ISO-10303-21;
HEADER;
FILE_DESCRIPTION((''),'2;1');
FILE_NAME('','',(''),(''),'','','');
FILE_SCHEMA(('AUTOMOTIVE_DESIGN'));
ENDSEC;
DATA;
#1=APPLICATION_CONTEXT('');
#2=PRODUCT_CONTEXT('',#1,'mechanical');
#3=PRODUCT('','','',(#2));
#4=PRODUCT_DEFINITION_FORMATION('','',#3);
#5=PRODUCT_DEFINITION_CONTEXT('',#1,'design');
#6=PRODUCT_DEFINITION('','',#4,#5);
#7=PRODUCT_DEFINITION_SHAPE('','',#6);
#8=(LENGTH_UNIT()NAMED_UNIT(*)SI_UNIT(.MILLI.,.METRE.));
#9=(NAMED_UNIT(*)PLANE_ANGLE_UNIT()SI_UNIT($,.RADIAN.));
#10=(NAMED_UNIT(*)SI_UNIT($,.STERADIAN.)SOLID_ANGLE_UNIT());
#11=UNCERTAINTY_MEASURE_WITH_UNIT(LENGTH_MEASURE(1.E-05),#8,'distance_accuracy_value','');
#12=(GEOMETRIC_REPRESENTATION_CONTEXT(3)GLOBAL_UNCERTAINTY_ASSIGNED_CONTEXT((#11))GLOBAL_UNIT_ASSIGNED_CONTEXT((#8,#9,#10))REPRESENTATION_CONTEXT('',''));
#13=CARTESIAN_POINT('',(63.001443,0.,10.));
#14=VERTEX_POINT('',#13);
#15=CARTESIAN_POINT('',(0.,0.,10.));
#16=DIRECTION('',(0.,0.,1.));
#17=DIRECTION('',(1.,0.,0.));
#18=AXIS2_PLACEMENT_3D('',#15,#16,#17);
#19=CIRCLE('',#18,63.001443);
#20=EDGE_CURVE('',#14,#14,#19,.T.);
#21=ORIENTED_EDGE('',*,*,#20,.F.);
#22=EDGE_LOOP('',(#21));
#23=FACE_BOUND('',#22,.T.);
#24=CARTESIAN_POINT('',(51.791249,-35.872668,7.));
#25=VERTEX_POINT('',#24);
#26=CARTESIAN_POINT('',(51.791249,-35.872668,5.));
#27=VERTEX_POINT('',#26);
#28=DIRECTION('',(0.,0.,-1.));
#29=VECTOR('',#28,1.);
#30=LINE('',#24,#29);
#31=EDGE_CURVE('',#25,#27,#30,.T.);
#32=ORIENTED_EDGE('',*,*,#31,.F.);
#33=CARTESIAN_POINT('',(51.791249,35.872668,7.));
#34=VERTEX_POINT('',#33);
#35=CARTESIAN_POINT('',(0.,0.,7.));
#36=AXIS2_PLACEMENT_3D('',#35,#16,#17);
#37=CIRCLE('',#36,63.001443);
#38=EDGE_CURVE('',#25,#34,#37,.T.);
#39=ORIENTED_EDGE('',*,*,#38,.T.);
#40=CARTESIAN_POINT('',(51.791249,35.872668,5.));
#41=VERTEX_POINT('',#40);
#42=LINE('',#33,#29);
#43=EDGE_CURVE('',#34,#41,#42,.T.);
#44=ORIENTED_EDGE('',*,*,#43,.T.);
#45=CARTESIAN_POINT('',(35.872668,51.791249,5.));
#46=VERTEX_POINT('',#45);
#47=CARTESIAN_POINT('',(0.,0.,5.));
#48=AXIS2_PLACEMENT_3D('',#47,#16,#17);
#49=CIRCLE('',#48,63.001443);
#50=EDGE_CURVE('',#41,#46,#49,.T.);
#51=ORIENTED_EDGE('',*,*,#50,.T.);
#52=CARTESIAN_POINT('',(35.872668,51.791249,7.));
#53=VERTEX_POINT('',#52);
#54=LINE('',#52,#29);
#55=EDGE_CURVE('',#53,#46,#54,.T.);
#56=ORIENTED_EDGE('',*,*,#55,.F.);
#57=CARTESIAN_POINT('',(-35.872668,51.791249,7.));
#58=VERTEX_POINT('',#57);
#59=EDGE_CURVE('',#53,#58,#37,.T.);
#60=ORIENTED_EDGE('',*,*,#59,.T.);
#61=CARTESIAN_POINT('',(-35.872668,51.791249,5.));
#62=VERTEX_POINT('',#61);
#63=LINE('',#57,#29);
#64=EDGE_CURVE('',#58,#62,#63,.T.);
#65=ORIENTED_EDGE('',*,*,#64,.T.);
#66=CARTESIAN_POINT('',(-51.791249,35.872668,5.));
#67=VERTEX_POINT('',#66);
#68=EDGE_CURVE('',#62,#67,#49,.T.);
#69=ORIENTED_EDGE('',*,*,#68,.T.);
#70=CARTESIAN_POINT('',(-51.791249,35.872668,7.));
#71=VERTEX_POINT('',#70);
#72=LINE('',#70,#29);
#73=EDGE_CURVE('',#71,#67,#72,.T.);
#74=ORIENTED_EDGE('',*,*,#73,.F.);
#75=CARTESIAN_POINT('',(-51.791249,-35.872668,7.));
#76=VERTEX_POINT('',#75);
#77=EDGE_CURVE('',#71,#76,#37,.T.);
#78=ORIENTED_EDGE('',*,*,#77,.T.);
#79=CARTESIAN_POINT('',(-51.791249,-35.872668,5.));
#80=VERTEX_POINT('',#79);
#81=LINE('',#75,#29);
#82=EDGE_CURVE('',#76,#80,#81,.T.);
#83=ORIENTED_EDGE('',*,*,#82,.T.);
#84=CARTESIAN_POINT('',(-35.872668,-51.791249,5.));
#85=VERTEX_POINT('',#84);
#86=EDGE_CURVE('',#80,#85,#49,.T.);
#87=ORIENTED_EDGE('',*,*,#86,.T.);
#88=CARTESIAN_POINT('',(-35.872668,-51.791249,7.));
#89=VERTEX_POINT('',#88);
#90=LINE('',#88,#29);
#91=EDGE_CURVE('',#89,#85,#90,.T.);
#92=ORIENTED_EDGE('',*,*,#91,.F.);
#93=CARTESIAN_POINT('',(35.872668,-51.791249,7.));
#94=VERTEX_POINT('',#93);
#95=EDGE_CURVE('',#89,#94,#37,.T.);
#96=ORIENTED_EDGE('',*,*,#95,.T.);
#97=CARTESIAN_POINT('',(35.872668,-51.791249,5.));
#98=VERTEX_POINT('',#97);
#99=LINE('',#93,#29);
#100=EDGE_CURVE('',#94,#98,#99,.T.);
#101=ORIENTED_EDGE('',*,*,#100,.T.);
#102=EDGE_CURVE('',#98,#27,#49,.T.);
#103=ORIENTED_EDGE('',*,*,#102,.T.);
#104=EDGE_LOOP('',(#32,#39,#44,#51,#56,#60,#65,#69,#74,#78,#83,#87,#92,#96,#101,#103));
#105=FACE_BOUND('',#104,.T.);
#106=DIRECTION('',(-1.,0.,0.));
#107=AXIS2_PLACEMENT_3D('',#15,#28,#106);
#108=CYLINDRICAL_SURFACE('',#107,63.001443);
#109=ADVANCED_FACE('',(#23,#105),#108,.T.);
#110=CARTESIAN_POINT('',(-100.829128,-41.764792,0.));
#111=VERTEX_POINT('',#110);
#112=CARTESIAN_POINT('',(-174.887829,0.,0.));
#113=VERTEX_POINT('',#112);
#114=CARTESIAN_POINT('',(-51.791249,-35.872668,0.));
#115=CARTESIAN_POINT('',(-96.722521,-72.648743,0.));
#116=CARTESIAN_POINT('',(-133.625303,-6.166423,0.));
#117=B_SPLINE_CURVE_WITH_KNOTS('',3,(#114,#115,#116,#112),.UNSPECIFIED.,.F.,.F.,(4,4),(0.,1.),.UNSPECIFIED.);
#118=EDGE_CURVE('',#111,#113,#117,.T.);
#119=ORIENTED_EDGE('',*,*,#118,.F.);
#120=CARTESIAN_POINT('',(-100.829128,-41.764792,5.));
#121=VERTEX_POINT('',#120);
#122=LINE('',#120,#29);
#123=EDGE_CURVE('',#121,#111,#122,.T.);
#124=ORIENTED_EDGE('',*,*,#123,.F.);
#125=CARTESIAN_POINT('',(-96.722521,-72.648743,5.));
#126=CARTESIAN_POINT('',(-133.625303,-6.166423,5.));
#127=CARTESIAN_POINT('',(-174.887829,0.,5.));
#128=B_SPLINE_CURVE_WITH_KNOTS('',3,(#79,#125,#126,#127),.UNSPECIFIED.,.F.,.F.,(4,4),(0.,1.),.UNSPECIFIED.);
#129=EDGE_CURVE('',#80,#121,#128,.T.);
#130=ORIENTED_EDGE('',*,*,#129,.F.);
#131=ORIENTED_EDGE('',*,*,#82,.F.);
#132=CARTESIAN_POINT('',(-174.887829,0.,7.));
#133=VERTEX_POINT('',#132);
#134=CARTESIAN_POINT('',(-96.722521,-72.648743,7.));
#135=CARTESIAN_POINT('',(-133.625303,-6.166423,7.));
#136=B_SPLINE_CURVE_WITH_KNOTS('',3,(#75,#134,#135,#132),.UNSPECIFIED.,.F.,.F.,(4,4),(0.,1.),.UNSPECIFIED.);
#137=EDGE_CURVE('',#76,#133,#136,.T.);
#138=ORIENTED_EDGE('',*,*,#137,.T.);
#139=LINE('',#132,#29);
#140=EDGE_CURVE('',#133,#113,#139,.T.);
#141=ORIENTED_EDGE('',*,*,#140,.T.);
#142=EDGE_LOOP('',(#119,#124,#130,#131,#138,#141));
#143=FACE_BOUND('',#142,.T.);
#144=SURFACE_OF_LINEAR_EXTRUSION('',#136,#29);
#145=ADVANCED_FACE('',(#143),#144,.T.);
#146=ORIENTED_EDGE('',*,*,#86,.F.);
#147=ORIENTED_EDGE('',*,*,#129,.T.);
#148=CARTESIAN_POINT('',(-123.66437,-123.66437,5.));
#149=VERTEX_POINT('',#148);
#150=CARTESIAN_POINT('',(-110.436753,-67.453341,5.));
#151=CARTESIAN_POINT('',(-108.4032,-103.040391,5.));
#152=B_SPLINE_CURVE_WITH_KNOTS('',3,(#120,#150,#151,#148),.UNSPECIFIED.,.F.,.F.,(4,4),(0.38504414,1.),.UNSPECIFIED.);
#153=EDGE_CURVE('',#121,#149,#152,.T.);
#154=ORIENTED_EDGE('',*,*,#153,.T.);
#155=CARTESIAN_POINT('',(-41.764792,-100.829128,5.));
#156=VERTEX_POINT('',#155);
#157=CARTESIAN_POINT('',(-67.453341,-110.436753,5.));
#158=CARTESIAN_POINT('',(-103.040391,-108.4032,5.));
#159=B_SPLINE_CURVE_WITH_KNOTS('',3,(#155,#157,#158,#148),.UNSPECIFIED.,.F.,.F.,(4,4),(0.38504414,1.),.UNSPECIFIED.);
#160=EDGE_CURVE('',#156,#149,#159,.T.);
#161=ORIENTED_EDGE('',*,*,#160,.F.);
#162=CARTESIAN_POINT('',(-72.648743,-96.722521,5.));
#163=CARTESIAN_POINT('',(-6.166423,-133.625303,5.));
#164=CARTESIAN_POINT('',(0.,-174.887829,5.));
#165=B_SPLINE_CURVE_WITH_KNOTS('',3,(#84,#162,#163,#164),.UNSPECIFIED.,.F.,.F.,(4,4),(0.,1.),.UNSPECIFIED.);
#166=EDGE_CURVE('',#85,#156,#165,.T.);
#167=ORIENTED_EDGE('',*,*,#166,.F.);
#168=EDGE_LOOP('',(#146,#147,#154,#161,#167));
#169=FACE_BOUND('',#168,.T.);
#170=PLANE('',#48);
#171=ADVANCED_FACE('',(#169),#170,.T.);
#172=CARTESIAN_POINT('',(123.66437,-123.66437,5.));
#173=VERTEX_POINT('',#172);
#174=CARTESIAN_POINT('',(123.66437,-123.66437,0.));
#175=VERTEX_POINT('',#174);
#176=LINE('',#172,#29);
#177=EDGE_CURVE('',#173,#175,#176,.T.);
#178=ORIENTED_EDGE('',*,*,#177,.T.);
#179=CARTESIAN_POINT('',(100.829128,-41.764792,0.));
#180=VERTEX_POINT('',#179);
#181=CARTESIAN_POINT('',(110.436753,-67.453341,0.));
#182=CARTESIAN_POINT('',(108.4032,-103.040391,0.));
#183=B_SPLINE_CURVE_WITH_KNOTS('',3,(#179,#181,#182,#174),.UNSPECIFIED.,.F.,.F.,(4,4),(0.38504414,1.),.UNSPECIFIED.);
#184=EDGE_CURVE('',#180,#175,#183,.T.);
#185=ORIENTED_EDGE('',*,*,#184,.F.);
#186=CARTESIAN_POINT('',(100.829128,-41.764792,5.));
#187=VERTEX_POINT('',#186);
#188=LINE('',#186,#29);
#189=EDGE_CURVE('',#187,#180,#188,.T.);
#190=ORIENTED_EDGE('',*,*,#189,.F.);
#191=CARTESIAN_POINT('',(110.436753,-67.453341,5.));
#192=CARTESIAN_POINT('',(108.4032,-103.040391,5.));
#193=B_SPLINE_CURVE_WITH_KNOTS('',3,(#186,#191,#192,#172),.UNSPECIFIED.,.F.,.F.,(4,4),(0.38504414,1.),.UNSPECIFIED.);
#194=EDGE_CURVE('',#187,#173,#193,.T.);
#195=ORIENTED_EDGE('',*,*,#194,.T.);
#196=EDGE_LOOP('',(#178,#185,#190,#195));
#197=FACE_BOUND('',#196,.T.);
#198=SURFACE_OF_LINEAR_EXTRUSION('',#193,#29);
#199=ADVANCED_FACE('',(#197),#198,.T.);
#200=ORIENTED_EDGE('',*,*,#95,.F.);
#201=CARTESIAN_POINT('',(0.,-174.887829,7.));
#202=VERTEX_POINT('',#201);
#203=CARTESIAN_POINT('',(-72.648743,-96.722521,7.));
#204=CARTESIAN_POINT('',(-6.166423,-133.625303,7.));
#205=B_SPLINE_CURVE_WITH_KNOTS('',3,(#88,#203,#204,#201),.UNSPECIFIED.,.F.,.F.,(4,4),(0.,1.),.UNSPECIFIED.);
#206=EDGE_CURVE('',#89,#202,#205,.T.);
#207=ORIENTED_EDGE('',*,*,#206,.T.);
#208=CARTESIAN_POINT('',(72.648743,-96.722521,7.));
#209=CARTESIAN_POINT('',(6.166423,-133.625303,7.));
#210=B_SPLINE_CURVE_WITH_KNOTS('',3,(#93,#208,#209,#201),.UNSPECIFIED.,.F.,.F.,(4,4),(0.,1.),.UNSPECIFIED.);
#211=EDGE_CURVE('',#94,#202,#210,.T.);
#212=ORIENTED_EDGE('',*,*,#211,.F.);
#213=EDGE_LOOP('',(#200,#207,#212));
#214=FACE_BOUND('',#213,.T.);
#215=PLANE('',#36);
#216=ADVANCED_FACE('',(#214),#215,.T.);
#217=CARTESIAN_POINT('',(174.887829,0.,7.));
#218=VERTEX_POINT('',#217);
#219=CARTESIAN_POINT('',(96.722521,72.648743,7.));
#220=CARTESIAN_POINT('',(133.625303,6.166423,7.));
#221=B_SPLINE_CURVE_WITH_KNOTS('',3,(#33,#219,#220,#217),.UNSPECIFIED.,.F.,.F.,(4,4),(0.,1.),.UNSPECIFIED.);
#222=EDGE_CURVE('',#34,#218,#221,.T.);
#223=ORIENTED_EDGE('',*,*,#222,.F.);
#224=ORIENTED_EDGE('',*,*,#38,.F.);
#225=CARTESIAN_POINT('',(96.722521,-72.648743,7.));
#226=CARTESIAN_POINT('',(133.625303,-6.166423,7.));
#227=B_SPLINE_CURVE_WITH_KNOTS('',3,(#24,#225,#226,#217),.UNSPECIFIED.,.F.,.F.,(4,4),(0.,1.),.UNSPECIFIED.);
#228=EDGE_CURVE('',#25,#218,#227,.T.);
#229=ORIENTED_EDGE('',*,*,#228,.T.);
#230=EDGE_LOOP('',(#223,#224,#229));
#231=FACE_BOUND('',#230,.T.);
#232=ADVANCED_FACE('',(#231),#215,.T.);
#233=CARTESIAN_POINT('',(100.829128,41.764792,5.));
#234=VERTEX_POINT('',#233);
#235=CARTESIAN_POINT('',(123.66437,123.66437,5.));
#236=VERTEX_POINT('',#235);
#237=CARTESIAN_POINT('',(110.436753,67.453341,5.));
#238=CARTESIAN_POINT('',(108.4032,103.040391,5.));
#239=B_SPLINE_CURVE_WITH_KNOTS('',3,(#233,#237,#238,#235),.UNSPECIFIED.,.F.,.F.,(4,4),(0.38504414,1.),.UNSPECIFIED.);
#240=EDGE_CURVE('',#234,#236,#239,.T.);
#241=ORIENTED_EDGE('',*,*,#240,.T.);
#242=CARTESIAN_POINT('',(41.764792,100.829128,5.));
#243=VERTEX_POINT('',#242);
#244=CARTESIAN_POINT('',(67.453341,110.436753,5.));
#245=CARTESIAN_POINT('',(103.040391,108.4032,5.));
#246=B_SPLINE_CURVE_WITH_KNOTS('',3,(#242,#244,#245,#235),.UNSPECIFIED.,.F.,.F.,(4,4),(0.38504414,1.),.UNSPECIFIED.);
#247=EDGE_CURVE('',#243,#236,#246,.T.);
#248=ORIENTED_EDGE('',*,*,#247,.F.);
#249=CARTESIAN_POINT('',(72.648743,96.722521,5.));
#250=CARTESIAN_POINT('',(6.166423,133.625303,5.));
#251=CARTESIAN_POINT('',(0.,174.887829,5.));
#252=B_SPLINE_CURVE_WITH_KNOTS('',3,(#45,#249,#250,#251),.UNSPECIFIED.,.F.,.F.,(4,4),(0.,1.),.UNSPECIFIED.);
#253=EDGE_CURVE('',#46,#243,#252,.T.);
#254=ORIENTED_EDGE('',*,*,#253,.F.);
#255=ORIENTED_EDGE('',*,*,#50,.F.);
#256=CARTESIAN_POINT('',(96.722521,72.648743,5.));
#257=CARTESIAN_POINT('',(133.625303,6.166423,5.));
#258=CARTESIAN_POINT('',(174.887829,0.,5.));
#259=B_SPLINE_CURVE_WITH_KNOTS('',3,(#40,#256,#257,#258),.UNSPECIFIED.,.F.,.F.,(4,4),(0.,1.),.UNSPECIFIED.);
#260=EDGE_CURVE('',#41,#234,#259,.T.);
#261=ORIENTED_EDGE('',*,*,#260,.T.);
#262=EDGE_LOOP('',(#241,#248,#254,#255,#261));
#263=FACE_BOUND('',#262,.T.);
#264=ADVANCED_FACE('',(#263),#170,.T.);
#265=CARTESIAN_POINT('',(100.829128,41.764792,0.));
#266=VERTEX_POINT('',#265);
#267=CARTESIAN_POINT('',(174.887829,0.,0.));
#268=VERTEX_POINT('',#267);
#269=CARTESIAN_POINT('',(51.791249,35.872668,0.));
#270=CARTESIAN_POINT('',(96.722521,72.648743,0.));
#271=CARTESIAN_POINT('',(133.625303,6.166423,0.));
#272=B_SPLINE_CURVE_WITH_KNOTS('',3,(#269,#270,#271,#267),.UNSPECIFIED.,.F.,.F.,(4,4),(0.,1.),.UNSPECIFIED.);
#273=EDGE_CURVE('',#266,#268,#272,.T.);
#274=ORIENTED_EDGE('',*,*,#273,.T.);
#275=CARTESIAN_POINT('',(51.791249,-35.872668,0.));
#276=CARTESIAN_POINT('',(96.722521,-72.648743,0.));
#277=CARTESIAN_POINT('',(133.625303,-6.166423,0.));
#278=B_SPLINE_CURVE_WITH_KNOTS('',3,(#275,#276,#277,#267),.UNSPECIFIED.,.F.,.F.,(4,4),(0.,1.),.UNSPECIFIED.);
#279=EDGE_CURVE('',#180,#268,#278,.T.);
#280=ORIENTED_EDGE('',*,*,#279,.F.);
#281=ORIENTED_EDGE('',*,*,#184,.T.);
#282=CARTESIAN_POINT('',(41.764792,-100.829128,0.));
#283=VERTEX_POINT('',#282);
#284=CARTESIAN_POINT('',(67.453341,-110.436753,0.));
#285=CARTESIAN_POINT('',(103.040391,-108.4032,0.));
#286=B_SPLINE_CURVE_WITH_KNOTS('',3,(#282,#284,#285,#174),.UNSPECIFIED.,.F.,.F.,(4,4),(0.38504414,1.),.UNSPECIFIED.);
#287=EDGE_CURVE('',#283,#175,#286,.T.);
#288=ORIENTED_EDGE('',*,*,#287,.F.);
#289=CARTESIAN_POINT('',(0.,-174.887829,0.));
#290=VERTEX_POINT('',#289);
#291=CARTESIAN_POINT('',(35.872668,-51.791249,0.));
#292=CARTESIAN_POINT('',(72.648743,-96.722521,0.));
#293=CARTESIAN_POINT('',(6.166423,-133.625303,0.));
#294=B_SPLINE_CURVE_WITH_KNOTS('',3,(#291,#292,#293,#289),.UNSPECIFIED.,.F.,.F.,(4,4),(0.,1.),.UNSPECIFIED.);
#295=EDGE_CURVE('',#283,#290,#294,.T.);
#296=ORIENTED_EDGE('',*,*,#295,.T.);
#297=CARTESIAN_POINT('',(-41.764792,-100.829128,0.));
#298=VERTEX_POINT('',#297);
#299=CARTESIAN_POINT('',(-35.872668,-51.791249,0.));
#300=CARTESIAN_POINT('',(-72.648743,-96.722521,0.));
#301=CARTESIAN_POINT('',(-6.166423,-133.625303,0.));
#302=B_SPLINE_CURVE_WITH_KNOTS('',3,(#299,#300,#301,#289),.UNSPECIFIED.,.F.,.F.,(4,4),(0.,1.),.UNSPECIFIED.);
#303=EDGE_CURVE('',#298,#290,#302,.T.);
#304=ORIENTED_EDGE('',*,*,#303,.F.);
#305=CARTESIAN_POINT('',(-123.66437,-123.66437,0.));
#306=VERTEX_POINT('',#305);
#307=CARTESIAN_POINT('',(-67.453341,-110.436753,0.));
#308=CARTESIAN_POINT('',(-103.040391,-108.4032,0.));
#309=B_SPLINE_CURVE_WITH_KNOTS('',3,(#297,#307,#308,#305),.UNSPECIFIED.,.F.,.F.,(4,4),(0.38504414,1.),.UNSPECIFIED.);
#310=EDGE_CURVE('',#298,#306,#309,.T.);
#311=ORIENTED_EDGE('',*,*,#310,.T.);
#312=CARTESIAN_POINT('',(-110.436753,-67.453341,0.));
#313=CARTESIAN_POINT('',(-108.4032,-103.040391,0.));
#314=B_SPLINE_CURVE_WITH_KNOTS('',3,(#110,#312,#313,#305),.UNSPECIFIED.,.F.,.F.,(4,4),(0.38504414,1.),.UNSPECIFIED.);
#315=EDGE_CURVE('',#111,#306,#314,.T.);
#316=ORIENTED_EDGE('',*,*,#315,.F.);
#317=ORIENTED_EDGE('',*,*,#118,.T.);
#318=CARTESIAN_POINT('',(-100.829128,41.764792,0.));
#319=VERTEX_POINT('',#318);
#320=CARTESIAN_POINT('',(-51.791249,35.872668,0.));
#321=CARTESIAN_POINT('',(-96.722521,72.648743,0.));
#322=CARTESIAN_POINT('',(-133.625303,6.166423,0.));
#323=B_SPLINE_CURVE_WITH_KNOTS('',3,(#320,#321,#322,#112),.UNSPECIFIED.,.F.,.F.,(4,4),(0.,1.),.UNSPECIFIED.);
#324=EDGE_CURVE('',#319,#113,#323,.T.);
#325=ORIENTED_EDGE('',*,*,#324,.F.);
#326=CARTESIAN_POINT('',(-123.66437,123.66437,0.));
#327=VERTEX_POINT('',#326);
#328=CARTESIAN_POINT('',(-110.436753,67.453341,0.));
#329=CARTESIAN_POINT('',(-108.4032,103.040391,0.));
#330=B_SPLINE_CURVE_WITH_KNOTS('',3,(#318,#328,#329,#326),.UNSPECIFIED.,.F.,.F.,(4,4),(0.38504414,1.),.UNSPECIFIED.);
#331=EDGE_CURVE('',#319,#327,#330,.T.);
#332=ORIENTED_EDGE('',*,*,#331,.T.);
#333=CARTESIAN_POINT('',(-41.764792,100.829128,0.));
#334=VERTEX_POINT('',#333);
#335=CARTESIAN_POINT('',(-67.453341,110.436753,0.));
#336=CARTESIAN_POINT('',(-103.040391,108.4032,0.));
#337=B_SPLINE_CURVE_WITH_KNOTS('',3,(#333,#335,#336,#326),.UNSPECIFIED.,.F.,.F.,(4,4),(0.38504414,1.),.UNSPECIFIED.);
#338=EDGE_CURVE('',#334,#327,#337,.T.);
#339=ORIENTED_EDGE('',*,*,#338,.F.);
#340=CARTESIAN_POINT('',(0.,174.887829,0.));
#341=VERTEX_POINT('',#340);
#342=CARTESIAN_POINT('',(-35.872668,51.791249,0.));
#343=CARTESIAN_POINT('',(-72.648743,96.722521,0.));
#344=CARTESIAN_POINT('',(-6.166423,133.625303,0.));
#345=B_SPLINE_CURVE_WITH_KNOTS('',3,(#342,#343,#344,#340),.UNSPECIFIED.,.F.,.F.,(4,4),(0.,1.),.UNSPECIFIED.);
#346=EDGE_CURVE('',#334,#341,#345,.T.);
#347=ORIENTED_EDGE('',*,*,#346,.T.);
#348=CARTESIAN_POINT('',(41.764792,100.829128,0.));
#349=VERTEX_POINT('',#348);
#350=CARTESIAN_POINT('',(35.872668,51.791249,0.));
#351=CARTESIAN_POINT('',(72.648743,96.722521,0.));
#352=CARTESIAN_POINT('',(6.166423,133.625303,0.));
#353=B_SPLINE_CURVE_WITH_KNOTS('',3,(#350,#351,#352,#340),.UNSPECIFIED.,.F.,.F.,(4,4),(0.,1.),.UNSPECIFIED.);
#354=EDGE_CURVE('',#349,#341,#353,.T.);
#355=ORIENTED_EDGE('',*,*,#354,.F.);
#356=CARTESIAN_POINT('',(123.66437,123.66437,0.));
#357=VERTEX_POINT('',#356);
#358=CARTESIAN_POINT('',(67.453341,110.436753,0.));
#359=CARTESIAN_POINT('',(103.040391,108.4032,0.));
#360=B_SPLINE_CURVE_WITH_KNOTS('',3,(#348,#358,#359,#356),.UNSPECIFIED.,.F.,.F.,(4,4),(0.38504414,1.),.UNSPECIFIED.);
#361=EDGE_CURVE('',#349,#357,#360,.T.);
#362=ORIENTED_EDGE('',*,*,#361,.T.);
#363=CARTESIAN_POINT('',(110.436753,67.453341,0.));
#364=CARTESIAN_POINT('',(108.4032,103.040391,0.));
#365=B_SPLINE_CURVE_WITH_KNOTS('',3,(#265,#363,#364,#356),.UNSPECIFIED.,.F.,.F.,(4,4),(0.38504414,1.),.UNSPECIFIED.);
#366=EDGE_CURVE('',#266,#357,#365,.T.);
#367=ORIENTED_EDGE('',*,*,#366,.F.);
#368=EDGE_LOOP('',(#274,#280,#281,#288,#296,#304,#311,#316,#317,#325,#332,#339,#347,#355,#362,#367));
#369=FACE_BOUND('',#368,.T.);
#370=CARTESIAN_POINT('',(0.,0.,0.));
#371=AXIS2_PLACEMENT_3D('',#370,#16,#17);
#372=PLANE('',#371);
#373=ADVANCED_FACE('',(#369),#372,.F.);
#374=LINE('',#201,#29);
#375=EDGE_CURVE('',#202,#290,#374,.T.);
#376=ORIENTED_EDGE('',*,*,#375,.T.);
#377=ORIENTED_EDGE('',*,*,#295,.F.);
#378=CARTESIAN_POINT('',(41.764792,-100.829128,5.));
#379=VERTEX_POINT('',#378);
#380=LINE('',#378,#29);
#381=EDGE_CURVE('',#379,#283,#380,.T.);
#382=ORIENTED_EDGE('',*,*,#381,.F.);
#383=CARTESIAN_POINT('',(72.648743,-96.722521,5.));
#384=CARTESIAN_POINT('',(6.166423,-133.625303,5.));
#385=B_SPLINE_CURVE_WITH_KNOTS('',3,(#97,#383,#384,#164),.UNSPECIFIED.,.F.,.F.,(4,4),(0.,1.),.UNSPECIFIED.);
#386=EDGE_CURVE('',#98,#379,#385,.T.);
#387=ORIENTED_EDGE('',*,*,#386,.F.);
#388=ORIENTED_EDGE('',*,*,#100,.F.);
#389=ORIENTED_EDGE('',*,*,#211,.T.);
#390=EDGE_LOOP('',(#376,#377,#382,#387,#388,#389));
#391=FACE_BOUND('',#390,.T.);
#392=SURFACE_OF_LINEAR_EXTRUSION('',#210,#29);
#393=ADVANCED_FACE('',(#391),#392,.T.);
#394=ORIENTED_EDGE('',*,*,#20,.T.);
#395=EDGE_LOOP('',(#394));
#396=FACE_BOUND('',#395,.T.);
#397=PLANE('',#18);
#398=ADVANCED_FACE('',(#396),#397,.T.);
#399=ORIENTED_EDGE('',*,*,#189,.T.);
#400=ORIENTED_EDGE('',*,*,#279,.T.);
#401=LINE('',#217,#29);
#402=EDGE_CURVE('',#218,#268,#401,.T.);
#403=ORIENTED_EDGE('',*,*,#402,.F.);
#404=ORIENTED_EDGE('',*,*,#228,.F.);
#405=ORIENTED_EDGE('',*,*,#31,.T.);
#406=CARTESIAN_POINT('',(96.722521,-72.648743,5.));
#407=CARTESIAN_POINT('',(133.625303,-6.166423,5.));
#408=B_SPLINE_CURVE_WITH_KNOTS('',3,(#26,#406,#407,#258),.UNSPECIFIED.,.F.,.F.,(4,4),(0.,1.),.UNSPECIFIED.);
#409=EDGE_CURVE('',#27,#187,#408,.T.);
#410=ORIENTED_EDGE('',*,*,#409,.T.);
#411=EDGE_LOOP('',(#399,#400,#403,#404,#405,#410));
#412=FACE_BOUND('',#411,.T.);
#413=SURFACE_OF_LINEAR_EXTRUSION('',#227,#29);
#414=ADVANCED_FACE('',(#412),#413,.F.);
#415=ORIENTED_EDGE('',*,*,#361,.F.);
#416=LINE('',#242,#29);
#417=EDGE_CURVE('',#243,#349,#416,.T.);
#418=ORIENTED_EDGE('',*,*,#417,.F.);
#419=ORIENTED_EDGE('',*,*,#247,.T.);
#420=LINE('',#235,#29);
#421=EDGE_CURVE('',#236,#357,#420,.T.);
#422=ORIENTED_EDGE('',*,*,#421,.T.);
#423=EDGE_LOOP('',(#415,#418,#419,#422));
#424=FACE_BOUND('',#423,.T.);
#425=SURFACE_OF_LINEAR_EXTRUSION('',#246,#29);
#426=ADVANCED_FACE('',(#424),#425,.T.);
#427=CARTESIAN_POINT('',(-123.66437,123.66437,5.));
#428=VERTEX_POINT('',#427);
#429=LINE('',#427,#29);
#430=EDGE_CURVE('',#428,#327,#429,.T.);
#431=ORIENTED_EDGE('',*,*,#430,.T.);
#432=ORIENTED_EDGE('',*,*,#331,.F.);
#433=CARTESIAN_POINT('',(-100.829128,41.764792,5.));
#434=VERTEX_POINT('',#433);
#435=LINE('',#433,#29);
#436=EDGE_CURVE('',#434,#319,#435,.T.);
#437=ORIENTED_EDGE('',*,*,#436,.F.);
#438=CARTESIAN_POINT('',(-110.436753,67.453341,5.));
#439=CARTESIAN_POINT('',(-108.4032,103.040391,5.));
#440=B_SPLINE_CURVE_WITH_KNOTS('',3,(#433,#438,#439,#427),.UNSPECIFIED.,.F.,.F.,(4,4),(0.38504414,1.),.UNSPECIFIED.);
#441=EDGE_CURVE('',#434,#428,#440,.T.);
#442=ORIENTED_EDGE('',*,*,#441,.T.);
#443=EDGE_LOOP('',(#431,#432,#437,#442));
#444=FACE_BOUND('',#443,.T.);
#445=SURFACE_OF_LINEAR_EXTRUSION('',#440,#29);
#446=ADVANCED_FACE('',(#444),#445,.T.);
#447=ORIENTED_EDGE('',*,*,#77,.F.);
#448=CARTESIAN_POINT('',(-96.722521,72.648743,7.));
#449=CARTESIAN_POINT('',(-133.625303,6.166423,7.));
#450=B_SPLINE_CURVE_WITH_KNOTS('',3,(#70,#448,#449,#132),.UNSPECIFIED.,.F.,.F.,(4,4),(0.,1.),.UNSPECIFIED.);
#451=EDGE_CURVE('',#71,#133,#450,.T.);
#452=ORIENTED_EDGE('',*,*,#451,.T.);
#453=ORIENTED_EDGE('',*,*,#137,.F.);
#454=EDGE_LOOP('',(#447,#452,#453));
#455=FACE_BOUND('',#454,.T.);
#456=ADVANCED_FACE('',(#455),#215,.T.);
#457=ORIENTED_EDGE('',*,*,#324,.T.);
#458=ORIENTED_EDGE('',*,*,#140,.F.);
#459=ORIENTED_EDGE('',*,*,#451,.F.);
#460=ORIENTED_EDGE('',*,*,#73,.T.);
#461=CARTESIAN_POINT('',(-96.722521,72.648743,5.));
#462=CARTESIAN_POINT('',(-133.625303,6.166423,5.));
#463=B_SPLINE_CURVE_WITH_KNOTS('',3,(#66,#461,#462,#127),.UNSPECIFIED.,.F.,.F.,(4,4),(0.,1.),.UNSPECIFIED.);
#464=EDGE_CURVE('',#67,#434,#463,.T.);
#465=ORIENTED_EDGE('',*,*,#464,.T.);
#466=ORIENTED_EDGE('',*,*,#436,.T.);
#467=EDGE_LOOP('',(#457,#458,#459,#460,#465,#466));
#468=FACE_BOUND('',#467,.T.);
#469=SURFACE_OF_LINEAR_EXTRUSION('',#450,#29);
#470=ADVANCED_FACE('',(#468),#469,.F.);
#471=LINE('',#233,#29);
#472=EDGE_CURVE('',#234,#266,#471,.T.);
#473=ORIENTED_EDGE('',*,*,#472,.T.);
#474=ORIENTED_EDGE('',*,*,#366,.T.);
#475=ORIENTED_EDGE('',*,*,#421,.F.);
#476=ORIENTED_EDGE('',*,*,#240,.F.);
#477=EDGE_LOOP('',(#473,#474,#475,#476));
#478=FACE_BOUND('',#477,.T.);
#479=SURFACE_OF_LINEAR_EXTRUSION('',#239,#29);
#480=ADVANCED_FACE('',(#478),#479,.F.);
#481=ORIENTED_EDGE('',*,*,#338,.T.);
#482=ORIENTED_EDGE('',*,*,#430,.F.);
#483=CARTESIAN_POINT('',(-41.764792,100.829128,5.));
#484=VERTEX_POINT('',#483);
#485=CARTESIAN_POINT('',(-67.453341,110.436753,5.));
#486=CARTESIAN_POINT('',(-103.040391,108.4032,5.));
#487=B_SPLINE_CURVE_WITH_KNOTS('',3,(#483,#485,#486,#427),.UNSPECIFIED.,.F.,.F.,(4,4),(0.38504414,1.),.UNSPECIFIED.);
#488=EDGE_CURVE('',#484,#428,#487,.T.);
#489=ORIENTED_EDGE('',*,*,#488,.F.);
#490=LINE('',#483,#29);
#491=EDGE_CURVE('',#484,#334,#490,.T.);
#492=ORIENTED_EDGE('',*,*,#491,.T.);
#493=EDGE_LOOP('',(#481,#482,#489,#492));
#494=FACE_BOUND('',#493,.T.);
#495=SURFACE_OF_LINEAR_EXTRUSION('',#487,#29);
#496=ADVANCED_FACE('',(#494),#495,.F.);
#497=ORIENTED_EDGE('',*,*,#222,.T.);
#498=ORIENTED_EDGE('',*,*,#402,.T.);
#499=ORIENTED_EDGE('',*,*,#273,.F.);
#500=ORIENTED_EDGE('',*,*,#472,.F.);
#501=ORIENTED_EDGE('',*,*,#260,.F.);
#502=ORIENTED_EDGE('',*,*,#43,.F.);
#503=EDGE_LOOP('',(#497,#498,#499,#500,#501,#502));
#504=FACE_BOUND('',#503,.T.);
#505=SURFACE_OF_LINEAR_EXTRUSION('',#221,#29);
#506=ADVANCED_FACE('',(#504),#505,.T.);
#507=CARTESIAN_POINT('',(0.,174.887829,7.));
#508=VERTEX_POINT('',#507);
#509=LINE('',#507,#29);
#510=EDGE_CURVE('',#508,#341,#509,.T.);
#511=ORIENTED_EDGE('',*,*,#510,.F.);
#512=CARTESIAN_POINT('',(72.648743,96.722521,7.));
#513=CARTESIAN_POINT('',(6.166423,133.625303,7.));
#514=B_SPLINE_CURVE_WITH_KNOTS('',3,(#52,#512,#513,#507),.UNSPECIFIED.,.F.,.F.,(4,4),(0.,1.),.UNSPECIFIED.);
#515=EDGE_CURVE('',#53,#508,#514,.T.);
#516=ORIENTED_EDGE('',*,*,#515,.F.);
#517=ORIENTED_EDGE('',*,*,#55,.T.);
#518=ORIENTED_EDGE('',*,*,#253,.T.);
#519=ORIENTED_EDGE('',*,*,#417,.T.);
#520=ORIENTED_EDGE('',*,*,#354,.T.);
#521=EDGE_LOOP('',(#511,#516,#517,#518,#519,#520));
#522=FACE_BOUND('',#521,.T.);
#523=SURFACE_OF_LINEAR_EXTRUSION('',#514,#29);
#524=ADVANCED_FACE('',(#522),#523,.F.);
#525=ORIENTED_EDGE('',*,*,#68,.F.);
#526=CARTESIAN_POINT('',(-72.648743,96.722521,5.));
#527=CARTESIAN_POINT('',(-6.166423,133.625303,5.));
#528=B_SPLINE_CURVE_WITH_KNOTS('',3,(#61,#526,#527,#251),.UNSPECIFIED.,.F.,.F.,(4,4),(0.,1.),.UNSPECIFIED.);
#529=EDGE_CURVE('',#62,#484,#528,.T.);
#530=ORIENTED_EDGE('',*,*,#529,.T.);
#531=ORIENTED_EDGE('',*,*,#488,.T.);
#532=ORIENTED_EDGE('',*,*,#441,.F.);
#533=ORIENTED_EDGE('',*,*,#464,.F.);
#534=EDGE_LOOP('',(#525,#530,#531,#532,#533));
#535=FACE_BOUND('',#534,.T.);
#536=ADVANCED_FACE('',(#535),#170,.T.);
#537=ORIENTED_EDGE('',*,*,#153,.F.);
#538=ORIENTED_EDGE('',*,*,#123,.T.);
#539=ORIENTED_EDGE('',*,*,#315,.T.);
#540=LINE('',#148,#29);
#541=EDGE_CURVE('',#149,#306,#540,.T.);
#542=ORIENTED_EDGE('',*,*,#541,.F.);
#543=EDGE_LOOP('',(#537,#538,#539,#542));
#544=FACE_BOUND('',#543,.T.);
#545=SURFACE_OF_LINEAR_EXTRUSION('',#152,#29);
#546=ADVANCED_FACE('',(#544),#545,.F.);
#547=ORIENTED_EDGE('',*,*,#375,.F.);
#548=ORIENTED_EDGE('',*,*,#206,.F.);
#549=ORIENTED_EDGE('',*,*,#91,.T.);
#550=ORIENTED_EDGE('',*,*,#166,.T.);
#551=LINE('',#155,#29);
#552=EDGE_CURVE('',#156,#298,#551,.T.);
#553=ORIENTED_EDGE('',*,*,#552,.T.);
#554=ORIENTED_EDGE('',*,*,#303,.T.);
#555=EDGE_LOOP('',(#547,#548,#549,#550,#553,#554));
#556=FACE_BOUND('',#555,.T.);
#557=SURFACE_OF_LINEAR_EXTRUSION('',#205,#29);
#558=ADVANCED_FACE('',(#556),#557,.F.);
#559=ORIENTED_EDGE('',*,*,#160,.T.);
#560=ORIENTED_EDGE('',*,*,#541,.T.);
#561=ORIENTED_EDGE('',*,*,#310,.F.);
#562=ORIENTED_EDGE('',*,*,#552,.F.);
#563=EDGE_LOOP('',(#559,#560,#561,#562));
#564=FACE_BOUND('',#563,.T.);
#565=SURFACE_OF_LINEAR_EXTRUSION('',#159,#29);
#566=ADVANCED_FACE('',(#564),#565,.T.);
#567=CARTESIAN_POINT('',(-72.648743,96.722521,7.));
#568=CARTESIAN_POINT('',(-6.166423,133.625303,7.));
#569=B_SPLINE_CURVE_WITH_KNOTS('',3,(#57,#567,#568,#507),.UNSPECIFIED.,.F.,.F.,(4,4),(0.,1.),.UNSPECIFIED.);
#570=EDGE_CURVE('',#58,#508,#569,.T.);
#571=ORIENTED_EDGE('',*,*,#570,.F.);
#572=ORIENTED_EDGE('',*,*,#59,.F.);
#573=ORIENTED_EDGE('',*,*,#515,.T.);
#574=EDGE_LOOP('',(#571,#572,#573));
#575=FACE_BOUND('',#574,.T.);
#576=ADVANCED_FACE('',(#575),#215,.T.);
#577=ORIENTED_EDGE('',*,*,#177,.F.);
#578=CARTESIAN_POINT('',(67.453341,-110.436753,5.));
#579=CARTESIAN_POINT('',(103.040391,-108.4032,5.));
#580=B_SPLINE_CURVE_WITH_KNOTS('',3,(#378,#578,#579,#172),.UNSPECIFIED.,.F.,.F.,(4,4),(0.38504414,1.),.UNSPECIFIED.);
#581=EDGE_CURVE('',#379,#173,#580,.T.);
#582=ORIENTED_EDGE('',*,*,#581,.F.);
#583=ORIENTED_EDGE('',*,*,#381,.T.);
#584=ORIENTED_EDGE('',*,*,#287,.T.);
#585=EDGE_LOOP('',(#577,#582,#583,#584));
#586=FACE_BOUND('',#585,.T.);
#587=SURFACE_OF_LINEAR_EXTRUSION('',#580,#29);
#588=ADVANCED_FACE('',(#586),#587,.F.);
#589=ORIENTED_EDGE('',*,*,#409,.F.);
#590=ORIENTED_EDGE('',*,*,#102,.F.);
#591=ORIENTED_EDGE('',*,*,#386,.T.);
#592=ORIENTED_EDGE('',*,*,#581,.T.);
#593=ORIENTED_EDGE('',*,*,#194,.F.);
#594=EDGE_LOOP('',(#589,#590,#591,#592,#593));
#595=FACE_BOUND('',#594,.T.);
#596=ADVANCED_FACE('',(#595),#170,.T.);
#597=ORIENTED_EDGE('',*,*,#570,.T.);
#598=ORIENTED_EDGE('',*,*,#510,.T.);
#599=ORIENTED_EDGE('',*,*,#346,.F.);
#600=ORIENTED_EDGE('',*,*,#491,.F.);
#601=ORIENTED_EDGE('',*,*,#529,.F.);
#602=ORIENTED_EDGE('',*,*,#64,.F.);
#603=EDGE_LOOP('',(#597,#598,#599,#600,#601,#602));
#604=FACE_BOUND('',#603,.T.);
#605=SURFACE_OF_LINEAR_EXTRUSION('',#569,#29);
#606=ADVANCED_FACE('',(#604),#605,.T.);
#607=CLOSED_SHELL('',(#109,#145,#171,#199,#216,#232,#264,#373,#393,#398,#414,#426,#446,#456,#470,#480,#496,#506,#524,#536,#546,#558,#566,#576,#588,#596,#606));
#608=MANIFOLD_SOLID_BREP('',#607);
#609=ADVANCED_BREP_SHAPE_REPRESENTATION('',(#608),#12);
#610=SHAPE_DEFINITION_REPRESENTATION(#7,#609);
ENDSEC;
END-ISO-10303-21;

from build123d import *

# Parameters (mm, degrees)
BOSS_EXTRUDE1_DEPTH = 10
BOSS_EXTRUDE2_DEPTH = 7
BOSS_EXTRUDE3_DEPTH = 5


with BuildPart() as part:
    # Sketch1 → Boss-Extrude1 (new body)
    with BuildSketch(Plane.XY):
        with BuildLine():
            ThreePointArc((51.791249261, -35.872667893), (60.133623009, -18.79173184), (63.001442855, 0))
            ThreePointArc((63.001442855, 0), (60.133623009, 18.79173184), (51.791249261, 35.872667893))
            ThreePointArc((51.791249261, 35.872667893), (44.548747467, 44.548747467), (35.872667893, 51.791249261))
            ThreePointArc((35.872667893, 51.791249261), (0, 63.001442855), (-35.872667893, 51.791249261))
            ThreePointArc((-35.872667893, 51.791249261), (-44.548747467, 44.548747467), (-51.791249261, 35.872667893))
            ThreePointArc((-51.791249261, 35.872667893), (-63.001442855, 0), (-51.791249261, -35.872667893))
            ThreePointArc((-51.791249261, -35.872667893), (-44.548747467, -44.548747467), (-35.872667893, -51.791249261))
            ThreePointArc((-35.872667893, -51.791249261), (0, -63.001442855), (35.872667893, -51.791249261))
            ThreePointArc((35.872667893, -51.791249261), (44.548747467, -44.548747467), (51.791249261, -35.872667893))
        make_face()
    extrude(amount=BOSS_EXTRUDE1_DEPTH)

    # Sketch1<3> → Boss-Extrude2 (add)
    with BuildSketch(Plane.XY):
        with BuildLine():
            ThreePointArc((51.791249261, 35.872667893), (63.001442855, 0), (51.791249261, -35.872667893))
            add(Edge.make_bspline(
                [(51.791249261, -35.872667893), (96.722520649, -72.648743073), (133.625302995, -6.166423411), (174.887829117, 0)],
                knots=[0, 0, 0, 0, 1, 1, 1, 1], degree=3))
            add(Edge.make_bspline(
                [(174.887829117, 0), (133.625302995, 6.166423411), (96.722520649, 72.648743073), (51.791249261, 35.872667893)],
                knots=[0.38504414, 0.38504414, 0.38504414, 0.38504414, 1.38504414, 1.38504414, 1.38504414, 1.38504414], degree=3))
        make_face()
        with BuildLine():
            ThreePointArc((-35.872667893, 51.791249261), (0, 63.001442855), (35.872667893, 51.791249261))
            add(Edge.make_bspline(
                [(35.872667893, 51.791249261), (72.648743073, 96.722520649), (6.166423411, 133.625302995), (0, 174.887829117)],
                knots=[0, 0, 0, 0, 1, 1, 1, 1], degree=3))
            add(Edge.make_bspline(
                [(0, 174.887829117), (-6.166423411, 133.625302995), (-72.648743073, 96.722520649), (-35.872667893, 51.791249261)],
                knots=[0.38504414, 0.38504414, 0.38504414, 0.38504414, 1.38504414, 1.38504414, 1.38504414, 1.38504414], degree=3))
        make_face()
        with BuildLine():
            add(Edge.make_bspline(
                [(0, -174.887829117), (6.166423411, -133.625302995), (72.648743073, -96.722520649), (35.872667893, -51.791249261)],
                knots=[0.38504414, 0.38504414, 0.38504414, 0.38504414, 1.38504414, 1.38504414, 1.38504414, 1.38504414], degree=3))
            ThreePointArc((35.872667893, -51.791249261), (0, -63.001442855), (-35.872667893, -51.791249261))
            add(Edge.make_bspline(
                [(-35.872667893, -51.791249261), (-72.648743073, -96.722520649), (-6.166423411, -133.625302995), (0, -174.887829117)],
                knots=[0, 0, 0, 0, 1, 1, 1, 1], degree=3))
        make_face()
        with BuildLine():
            ThreePointArc((-51.791249261, -35.872667893), (-63.001442855, 0), (-51.791249261, 35.872667893))
            add(Edge.make_bspline(
                [(-51.791249261, 35.872667893), (-96.722520649, 72.648743073), (-133.625302995, 6.166423411), (-174.887829117, 0)],
                knots=[0, 0, 0, 0, 1, 1, 1, 1], degree=3))
            add(Edge.make_bspline(
                [(-174.887829117, 0), (-133.625302995, -6.166423411), (-96.722520649, -72.648743073), (-51.791249261, -35.872667893)],
                knots=[0.38504414, 0.38504414, 0.38504414, 0.38504414, 1.38504414, 1.38504414, 1.38504414, 1.38504414], degree=3))
        make_face()
    extrude(amount=BOSS_EXTRUDE2_DEPTH)

    # Sketch1<4> → Boss-Extrude3 (add)
    with BuildSketch(Plane.XY):
        with BuildLine():
            ThreePointArc((35.872667893, 51.791249261), (44.548747467, 44.548747467), (51.791249261, 35.872667893))
            add(Edge.make_bspline(
                [(51.791249261, 35.872667893), (69.091772014, 50.033080135), (85.201999092, 48.884507071), (100.829128316, 41.764792431)],
                knots=[0, 0, 0, 0, 0.38504414, 0.38504414, 0.38504414, 0.38504414], degree=3))
            add(Edge.make_bspline(
                [(100.829128316, 41.764792431), (110.436752916, 67.453341468), (108.403199611, 103.040391174), (123.664369915, 123.664369915)],
                knots=[0.38504414, 0.38504414, 0.38504414, 0.38504414, 1, 1, 1, 1], degree=3))
            add(Edge.make_bspline(
                [(41.764792431, 100.829128316), (67.453341468, 110.436752916), (103.040391174, 108.403199611), (123.664369915, 123.664369915)],
                knots=[0.38504414, 0.38504414, 0.38504414, 0.38504414, 1, 1, 1, 1], degree=3))
            add(Edge.make_bspline(
                [(35.872667893, 51.791249261), (50.033080135, 69.091772014), (48.884507071, 85.201999092), (41.764792431, 100.829128316)],
                knots=[0, 0, 0, 0, 0.38504414, 0.38504414, 0.38504414, 0.38504414], degree=3))
        make_face()
        with BuildLine():
            add(Edge.make_bspline(
                [(51.791249261, -35.872667893), (69.091772014, -50.033080135), (85.201999092, -48.884507071), (100.829128316, -41.764792431)],
                knots=[0, 0, 0, 0, 0.38504414, 0.38504414, 0.38504414, 0.38504414], degree=3))
            ThreePointArc((51.791249261, -35.872667893), (44.548747467, -44.548747467), (35.872667893, -51.791249261))
            add(Edge.make_bspline(
                [(35.872667893, -51.791249261), (50.033080135, -69.091772014), (48.884507071, -85.201999092), (41.764792431, -100.829128316)],
                knots=[0, 0, 0, 0, 0.38504414, 0.38504414, 0.38504414, 0.38504414], degree=3))
            add(Edge.make_bspline(
                [(41.764792431, -100.829128316), (67.453341468, -110.436752916), (103.040391174, -108.403199611), (123.664369915, -123.664369915)],
                knots=[0.38504414, 0.38504414, 0.38504414, 0.38504414, 1, 1, 1, 1], degree=3))
            add(Edge.make_bspline(
                [(100.829128316, -41.764792431), (110.436752916, -67.453341468), (108.403199611, -103.040391174), (123.664369915, -123.664369915)],
                knots=[0.38504414, 0.38504414, 0.38504414, 0.38504414, 1, 1, 1, 1], degree=3))
        make_face()
        with BuildLine():
            ThreePointArc((-51.791249261, 35.872667893), (-44.548747467, 44.548747467), (-35.872667893, 51.791249261))
            add(Edge.make_bspline(
                [(-35.872667893, 51.791249261), (-50.033080135, 69.091772014), (-48.884507071, 85.201999092), (-41.764792431, 100.829128316)],
                knots=[0, 0, 0, 0, 0.38504414, 0.38504414, 0.38504414, 0.38504414], degree=3))
            add(Edge.make_bspline(
                [(-41.764792431, 100.829128316), (-67.453341468, 110.436752916), (-103.040391174, 108.403199611), (-123.664369915, 123.664369915)],
                knots=[0.38504414, 0.38504414, 0.38504414, 0.38504414, 1, 1, 1, 1], degree=3))
            add(Edge.make_bspline(
                [(-100.829128316, 41.764792431), (-110.436752916, 67.453341468), (-108.403199611, 103.040391174), (-123.664369915, 123.664369915)],
                knots=[0.38504414, 0.38504414, 0.38504414, 0.38504414, 1, 1, 1, 1], degree=3))
            add(Edge.make_bspline(
                [(-51.791249261, 35.872667893), (-69.091772014, 50.033080135), (-85.201999092, 48.884507071), (-100.829128316, 41.764792431)],
                knots=[0, 0, 0, 0, 0.38504414, 0.38504414, 0.38504414, 0.38504414], degree=3))
        make_face()
        with BuildLine():
            add(Edge.make_bspline(
                [(-35.872667893, -51.791249261), (-50.033080135, -69.091772014), (-48.884507071, -85.201999092), (-41.764792431, -100.829128316)],
                knots=[0, 0, 0, 0, 0.38504414, 0.38504414, 0.38504414, 0.38504414], degree=3))
            ThreePointArc((-35.872667893, -51.791249261), (-44.548747467, -44.548747467), (-51.791249261, -35.872667893))
            add(Edge.make_bspline(
                [(-51.791249261, -35.872667893), (-69.091772014, -50.033080135), (-85.201999092, -48.884507071), (-100.829128316, -41.764792431)],
                knots=[0, 0, 0, 0, 0.38504414, 0.38504414, 0.38504414, 0.38504414], degree=3))
            add(Edge.make_bspline(
                [(-100.829128316, -41.764792431), (-110.436752916, -67.453341468), (-108.403199611, -103.040391174), (-123.664369915, -123.664369915)],
                knots=[0.38504414, 0.38504414, 0.38504414, 0.38504414, 1, 1, 1, 1], degree=3))
            add(Edge.make_bspline(
                [(-41.764792431, -100.829128316), (-67.453341468, -110.436752916), (-103.040391174, -108.403199611), (-123.664369915, -123.664369915)],
                knots=[0.38504414, 0.38504414, 0.38504414, 0.38504414, 1, 1, 1, 1], degree=3))
        make_face()
    extrude(amount=BOSS_EXTRUDE3_DEPTH)


solid = part.part
